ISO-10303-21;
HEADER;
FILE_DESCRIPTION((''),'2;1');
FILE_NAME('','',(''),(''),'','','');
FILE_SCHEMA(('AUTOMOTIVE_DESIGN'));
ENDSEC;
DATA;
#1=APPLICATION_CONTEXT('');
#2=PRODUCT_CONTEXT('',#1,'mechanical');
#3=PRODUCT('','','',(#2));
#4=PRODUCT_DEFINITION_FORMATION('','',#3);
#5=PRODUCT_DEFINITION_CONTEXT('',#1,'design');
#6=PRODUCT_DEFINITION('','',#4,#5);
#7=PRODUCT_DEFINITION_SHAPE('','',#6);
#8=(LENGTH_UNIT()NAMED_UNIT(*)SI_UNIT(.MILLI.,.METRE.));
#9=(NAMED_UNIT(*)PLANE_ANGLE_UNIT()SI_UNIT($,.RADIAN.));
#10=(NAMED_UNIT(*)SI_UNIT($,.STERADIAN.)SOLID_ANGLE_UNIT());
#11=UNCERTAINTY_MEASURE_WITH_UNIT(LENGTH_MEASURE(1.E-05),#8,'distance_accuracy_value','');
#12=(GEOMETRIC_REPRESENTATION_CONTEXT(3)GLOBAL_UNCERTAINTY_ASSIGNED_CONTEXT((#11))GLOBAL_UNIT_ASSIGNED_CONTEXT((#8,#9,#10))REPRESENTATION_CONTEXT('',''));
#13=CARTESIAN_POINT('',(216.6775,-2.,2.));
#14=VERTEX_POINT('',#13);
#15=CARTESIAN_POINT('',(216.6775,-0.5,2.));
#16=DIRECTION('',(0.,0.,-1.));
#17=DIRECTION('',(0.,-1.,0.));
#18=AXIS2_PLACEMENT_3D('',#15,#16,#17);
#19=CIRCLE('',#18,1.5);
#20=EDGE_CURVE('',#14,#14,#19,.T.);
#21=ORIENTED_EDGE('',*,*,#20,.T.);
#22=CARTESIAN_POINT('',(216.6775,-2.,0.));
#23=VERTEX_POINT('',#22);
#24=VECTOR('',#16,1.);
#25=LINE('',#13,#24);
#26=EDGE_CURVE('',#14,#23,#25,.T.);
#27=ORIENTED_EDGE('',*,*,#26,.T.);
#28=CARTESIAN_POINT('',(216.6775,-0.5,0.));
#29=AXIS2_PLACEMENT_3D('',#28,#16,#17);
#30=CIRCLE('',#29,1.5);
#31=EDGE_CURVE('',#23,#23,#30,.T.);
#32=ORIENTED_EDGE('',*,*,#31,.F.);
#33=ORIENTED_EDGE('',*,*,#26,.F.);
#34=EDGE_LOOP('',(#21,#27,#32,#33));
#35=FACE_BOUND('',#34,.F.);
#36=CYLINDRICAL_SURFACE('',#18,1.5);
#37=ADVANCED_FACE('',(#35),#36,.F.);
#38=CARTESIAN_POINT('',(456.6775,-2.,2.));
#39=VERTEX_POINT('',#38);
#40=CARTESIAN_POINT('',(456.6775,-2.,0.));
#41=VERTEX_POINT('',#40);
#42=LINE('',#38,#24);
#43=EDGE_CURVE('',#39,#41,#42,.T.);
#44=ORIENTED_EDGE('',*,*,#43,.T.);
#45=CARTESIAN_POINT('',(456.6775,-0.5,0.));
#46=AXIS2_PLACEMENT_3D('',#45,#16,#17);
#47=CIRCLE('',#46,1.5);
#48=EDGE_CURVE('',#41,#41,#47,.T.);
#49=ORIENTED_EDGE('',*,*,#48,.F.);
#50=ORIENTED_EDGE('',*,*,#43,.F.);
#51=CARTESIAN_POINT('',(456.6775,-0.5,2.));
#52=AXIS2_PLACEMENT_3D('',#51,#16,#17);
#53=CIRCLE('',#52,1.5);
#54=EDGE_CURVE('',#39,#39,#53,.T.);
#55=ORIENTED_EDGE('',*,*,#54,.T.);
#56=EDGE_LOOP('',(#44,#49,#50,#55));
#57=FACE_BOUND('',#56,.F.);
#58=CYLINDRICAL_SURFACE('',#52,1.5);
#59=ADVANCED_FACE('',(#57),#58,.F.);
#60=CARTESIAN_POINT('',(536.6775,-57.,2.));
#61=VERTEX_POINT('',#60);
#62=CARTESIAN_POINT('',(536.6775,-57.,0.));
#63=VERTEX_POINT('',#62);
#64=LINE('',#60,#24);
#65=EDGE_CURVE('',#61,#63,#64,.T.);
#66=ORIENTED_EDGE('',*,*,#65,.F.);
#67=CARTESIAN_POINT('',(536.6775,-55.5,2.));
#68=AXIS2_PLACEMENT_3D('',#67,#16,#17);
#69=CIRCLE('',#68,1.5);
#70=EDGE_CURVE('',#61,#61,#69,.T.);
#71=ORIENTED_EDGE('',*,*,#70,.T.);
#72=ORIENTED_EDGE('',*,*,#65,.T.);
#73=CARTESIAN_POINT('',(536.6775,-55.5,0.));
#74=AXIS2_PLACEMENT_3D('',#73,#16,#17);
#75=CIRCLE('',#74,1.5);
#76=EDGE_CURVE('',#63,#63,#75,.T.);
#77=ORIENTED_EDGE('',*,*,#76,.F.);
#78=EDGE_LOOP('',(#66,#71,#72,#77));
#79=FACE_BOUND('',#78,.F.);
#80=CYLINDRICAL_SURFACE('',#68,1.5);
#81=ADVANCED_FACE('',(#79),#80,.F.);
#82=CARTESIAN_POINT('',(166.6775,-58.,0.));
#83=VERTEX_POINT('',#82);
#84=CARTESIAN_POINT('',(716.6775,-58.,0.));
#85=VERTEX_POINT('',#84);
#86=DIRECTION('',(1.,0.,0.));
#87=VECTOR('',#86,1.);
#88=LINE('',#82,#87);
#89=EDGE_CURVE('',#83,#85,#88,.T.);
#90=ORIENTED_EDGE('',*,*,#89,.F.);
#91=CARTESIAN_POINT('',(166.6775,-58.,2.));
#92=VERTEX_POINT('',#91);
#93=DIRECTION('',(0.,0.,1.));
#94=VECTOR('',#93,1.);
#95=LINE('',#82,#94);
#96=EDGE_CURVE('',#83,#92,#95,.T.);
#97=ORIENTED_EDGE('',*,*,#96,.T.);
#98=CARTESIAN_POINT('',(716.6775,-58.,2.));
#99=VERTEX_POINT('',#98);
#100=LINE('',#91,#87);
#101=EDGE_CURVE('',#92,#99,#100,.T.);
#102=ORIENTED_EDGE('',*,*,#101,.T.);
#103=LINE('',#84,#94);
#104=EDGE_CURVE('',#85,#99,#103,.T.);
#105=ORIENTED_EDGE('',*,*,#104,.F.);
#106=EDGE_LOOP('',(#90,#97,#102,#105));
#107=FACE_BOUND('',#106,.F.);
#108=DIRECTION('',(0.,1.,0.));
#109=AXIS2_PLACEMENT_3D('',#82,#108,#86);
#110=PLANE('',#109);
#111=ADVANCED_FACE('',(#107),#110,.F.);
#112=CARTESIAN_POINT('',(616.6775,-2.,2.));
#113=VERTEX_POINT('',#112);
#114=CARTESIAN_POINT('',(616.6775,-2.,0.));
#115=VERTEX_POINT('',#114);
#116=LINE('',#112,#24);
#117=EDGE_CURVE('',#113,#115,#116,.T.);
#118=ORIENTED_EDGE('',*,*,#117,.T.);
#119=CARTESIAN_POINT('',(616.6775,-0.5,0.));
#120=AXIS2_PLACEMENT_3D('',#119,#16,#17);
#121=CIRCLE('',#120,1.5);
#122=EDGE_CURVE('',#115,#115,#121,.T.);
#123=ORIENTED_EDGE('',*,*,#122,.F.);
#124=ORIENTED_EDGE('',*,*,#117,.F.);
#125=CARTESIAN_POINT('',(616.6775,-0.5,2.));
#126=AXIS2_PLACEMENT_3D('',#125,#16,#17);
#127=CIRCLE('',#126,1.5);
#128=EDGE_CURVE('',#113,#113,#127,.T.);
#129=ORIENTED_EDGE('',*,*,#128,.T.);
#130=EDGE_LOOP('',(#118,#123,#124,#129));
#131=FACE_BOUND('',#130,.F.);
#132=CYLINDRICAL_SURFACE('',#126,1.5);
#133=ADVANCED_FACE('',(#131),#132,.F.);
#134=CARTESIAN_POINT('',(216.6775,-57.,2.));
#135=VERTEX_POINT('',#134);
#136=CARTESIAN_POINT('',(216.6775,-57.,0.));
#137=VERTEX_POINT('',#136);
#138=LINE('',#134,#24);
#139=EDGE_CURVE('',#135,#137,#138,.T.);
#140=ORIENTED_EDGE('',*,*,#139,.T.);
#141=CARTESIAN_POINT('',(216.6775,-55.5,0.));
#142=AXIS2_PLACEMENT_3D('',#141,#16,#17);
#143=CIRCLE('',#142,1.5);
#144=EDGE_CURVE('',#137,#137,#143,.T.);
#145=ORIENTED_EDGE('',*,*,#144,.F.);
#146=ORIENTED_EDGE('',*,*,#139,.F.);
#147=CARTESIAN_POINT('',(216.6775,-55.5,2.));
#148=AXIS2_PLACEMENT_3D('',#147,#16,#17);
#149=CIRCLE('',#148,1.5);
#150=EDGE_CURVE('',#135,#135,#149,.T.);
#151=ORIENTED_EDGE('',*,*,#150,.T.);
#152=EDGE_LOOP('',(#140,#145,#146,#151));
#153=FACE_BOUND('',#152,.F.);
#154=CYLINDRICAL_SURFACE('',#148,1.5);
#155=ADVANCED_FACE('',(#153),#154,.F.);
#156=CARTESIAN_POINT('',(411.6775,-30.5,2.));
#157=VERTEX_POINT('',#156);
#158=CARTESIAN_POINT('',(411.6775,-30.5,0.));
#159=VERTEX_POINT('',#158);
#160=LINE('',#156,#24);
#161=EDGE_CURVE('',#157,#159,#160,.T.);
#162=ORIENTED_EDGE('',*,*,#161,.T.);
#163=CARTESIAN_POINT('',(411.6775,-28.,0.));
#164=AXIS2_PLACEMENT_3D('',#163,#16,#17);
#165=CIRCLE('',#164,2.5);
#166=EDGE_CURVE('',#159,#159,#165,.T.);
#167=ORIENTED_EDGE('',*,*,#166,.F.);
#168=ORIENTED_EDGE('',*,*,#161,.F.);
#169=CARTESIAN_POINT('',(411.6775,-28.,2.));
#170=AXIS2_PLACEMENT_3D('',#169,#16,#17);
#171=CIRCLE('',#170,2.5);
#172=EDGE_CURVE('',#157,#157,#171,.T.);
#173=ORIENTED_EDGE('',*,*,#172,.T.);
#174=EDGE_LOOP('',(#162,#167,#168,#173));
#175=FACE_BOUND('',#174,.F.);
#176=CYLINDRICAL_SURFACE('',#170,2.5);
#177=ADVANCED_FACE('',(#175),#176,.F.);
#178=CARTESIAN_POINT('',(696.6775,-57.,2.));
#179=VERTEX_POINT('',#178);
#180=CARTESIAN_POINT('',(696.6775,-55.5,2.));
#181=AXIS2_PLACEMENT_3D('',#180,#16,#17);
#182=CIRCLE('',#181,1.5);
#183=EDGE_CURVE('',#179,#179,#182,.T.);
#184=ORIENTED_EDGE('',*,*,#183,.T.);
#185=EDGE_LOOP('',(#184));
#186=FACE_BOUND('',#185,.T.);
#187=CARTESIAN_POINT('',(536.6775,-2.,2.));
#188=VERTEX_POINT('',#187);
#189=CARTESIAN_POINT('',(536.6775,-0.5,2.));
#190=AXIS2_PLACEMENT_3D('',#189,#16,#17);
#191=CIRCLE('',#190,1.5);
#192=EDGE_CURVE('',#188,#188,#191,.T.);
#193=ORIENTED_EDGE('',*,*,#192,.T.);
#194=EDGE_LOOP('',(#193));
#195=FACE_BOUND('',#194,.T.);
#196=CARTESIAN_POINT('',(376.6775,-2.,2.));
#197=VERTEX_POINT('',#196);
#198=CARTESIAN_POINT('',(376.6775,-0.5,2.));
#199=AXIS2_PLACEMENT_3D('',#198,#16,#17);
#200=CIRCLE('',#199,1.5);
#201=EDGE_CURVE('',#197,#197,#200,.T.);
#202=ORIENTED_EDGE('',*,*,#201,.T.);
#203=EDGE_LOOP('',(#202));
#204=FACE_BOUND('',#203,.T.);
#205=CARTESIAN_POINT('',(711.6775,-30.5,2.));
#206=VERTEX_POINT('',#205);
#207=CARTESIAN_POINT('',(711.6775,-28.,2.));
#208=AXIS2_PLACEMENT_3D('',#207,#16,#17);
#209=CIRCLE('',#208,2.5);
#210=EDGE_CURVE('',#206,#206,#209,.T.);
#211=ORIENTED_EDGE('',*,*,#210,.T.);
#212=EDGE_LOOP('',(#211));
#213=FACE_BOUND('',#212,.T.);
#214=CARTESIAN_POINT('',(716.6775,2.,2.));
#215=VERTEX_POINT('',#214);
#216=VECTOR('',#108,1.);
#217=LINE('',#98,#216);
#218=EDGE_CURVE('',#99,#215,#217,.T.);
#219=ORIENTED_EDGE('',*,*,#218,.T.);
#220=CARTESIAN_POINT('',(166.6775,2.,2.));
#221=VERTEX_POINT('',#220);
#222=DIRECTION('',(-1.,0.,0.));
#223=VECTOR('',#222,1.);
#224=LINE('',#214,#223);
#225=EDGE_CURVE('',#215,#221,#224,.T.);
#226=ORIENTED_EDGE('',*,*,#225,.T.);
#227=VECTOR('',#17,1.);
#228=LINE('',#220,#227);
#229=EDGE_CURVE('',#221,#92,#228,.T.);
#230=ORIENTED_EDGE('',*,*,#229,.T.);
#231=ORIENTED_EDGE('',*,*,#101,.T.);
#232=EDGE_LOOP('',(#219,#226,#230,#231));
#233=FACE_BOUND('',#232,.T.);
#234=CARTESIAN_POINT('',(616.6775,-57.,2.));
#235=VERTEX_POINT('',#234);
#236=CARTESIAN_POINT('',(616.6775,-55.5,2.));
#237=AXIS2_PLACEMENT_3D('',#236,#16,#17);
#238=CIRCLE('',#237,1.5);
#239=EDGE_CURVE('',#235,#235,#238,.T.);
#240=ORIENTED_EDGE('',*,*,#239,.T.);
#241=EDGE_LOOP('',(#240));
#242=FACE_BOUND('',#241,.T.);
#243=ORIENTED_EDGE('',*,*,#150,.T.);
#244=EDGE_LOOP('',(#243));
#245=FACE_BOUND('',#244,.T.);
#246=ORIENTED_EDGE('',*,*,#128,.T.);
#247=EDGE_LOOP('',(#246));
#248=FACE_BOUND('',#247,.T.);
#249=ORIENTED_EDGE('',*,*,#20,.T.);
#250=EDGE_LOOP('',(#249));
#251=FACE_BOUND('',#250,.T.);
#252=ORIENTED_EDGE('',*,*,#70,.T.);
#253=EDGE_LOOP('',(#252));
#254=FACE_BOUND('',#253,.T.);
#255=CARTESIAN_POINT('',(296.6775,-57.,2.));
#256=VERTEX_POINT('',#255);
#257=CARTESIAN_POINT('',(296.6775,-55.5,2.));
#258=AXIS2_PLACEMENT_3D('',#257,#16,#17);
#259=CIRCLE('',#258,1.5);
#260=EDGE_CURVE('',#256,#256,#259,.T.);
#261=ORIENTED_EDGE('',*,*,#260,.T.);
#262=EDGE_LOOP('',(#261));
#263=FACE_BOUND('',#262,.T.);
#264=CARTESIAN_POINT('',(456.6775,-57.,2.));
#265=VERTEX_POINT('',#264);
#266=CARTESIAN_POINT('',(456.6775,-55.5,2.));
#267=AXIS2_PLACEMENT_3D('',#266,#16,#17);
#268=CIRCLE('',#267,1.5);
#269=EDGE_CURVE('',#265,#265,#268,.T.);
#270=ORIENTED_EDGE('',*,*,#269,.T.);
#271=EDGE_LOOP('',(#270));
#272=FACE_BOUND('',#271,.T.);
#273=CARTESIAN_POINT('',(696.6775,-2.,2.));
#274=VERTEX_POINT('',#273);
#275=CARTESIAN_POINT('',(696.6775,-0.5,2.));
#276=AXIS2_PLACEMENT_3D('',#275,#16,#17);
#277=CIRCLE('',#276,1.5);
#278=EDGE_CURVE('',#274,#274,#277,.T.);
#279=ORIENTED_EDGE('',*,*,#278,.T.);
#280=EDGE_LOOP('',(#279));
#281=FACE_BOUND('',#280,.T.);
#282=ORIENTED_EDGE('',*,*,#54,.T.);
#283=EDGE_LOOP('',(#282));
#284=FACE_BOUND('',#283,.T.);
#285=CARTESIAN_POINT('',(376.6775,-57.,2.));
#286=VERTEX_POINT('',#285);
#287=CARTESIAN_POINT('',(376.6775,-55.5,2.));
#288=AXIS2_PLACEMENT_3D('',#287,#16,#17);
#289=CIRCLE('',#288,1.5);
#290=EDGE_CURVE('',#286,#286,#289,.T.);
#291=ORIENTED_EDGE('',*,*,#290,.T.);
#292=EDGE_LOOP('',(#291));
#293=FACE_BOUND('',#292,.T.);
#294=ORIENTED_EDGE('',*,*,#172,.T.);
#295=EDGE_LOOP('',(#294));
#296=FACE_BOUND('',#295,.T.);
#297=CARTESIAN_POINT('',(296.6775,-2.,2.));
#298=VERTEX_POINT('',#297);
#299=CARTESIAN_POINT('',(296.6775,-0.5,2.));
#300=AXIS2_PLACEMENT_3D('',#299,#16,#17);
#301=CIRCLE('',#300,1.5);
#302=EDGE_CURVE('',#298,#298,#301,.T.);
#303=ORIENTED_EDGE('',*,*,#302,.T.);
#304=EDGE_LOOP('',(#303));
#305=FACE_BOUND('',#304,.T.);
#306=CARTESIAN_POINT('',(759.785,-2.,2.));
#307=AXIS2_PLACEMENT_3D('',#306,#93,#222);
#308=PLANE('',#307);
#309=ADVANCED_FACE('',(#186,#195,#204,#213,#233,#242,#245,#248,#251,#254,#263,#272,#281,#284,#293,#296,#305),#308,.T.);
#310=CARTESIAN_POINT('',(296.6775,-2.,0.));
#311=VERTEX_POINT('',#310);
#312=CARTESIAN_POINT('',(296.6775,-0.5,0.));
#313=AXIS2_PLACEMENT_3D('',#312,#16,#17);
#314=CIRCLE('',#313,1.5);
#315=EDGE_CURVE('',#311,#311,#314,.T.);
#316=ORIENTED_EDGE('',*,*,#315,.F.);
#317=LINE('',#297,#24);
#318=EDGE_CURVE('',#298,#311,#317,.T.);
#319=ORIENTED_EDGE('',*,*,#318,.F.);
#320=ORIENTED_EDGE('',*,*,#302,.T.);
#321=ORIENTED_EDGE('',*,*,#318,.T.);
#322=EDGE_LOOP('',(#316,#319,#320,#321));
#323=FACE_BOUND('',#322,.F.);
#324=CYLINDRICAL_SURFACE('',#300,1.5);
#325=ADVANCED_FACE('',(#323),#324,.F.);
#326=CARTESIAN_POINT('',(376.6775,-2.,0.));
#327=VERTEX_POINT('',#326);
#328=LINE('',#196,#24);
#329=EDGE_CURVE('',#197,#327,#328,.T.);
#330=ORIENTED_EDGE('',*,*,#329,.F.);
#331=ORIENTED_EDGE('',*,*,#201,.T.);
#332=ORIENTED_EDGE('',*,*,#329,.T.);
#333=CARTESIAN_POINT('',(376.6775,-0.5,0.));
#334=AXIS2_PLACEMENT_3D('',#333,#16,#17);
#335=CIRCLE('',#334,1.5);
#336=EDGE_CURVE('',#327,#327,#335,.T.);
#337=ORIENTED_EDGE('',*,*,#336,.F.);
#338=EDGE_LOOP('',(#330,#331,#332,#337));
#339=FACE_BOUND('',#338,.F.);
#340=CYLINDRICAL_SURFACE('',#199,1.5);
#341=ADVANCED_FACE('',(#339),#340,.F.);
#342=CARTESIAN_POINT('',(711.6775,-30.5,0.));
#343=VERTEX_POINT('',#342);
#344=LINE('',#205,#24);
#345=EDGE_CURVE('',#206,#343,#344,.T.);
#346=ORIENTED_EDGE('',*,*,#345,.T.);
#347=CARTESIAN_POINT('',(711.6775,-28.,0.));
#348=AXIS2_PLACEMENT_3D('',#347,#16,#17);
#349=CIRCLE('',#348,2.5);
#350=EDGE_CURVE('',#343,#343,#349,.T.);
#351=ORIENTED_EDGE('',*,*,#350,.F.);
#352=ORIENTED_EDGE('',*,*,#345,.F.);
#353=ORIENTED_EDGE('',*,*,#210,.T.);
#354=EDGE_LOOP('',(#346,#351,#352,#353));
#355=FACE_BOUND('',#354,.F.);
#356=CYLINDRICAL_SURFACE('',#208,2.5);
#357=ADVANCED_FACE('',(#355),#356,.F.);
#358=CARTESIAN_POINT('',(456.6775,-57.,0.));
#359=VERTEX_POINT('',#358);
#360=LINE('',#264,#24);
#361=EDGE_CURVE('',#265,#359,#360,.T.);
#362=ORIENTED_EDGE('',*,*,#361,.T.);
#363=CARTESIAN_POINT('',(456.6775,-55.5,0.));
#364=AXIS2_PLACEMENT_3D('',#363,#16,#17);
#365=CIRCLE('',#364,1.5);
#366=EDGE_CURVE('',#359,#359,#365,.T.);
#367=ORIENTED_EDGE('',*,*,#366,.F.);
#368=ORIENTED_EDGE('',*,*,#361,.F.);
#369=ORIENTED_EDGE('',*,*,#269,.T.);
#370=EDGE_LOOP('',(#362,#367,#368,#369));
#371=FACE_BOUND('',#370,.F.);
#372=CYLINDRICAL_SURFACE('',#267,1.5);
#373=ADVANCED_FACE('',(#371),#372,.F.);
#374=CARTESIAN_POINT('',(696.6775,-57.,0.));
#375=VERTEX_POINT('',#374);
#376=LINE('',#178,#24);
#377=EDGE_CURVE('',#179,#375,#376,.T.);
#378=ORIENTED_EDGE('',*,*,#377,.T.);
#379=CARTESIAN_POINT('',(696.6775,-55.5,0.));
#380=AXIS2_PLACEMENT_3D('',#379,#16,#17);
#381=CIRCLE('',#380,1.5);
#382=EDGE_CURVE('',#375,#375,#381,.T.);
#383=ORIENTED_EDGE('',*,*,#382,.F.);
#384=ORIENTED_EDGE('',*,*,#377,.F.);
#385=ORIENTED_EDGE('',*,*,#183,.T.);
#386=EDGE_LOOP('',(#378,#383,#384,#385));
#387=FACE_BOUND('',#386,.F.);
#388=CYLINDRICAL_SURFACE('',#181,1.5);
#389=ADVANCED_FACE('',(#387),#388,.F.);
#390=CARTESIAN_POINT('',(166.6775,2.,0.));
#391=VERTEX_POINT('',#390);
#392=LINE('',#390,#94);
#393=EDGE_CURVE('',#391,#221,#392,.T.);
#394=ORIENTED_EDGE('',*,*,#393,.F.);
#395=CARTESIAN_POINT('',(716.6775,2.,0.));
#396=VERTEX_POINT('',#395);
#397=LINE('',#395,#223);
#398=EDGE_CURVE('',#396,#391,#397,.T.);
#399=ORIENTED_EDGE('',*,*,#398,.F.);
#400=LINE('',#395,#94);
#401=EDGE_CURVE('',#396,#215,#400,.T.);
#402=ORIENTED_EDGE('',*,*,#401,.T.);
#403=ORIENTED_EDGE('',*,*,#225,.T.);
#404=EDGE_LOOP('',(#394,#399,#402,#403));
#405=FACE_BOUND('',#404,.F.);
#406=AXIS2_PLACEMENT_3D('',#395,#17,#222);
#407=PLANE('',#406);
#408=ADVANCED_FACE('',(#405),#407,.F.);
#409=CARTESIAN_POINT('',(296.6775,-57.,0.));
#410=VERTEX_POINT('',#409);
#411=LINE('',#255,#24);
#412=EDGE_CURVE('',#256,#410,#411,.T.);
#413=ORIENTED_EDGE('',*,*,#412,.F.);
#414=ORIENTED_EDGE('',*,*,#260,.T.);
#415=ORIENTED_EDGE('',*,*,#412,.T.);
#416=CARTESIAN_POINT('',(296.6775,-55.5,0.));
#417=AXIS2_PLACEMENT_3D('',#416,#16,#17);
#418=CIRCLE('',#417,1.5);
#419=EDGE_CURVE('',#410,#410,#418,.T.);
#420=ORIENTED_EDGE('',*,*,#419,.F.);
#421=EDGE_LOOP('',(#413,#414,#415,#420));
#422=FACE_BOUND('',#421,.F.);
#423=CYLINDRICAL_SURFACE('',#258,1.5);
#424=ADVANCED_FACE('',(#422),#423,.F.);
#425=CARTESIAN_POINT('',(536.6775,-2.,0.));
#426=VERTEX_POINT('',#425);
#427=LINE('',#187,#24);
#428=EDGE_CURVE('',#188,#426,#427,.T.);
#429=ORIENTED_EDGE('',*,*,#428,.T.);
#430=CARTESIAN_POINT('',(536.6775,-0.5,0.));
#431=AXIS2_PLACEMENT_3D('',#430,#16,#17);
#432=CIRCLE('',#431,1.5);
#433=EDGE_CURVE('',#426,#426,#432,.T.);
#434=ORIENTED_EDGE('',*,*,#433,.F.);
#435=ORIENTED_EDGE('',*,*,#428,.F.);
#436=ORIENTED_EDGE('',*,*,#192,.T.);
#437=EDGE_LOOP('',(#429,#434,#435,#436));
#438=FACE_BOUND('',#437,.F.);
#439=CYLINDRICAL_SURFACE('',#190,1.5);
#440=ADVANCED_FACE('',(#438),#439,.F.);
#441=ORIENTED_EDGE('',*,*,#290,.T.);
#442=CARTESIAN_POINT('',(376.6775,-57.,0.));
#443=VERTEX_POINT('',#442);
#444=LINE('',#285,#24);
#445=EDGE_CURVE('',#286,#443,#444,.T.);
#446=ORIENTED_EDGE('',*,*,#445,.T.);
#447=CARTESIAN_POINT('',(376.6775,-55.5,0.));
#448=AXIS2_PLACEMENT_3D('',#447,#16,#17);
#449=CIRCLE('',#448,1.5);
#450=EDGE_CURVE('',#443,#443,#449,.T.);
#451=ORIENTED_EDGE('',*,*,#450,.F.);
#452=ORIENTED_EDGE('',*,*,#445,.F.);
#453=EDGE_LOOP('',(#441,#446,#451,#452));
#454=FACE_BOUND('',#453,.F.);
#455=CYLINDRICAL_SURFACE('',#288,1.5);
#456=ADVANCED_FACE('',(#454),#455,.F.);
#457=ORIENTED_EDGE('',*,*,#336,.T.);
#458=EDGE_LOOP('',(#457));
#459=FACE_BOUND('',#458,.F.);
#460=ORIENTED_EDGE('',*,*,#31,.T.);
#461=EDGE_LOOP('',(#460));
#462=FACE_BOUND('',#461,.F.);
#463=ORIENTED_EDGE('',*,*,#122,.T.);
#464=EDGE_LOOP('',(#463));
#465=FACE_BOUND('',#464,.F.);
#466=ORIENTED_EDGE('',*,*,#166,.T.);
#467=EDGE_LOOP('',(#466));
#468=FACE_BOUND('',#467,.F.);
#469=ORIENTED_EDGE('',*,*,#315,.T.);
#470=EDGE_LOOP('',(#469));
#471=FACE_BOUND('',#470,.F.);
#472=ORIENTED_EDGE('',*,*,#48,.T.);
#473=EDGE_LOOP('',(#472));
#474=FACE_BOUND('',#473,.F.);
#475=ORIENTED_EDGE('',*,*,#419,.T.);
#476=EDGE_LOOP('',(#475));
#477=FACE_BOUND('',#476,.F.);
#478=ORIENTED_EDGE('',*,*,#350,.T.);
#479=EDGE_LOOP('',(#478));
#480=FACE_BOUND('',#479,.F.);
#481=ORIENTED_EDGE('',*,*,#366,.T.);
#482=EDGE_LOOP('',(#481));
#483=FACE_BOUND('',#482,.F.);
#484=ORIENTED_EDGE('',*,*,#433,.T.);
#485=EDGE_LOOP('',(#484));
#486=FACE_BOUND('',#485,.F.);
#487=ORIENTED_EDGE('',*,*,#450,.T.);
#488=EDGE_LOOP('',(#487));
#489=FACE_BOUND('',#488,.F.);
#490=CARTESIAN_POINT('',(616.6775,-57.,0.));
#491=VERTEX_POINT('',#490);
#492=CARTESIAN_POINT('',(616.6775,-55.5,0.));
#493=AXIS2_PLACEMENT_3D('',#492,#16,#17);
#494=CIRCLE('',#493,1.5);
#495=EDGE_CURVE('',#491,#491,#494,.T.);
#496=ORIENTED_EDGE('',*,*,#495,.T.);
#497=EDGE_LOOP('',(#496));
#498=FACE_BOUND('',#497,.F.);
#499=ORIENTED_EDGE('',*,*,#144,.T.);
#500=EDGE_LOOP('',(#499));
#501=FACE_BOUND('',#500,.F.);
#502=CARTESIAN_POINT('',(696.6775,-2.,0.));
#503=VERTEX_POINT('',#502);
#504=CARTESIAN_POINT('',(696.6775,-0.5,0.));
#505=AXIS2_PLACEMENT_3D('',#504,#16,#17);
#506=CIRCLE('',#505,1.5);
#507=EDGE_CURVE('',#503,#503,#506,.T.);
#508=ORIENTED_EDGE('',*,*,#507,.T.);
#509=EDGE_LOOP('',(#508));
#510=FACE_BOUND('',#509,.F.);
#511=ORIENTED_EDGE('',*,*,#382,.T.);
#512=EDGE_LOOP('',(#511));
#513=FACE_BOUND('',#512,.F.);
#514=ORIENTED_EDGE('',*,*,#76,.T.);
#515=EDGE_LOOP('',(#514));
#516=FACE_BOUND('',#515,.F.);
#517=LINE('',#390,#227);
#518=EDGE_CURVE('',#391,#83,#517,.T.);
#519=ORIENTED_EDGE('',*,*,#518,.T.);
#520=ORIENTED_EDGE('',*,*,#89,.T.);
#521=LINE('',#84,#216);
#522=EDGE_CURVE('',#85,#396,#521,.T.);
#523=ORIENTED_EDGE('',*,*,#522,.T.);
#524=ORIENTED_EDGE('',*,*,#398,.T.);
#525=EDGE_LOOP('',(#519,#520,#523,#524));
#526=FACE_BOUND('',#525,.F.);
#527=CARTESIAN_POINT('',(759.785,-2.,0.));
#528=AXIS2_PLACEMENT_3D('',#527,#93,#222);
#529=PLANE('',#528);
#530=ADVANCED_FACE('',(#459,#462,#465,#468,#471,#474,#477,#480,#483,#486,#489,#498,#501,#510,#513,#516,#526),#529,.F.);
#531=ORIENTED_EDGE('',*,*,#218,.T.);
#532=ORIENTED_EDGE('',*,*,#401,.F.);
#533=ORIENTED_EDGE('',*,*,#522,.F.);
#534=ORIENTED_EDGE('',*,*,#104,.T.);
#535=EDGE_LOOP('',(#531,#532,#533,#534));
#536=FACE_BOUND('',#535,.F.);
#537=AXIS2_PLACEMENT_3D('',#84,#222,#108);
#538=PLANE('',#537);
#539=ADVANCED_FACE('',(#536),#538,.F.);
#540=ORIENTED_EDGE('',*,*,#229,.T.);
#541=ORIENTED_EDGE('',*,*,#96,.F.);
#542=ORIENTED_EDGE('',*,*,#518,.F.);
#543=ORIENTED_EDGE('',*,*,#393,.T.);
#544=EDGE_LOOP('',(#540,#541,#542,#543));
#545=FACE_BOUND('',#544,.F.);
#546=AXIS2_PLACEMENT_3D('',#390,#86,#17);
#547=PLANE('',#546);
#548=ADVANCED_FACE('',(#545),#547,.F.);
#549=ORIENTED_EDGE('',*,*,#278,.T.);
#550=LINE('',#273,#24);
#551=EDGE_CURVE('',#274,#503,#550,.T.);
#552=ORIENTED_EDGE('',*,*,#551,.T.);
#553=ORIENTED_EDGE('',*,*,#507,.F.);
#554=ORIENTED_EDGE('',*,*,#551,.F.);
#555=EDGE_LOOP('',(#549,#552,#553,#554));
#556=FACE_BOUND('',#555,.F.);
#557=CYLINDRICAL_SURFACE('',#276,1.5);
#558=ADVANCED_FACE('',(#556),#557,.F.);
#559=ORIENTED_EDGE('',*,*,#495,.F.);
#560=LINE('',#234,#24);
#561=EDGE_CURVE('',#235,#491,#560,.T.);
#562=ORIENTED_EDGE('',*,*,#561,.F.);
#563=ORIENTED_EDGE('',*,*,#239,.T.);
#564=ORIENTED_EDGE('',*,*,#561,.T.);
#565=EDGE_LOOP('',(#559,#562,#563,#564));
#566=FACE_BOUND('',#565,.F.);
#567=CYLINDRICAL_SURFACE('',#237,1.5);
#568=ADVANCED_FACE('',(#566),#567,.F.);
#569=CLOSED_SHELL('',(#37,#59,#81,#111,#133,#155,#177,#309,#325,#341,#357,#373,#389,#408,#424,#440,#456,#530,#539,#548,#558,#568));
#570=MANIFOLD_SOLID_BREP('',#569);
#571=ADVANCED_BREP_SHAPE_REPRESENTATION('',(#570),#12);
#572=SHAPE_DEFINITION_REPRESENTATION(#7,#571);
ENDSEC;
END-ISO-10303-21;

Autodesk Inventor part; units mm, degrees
ref_plane "YZ Plane" through (0, 0, 0) normal (1, 0, 0) x (0, 1, 0)
ref_plane "XZ Plane" through (0, 0, 0) normal (0, 1, 0) x (-1, 0, 0)
ref_plane "XY Plane" through (0, 0, 0) normal (0, 0, 1) x (1, 0, 0)
ref_plane "Work Plane3" through (759.785, -2, 0) normal (0, 0, 1) x (-1, 0, 0)
sketch "Sketch2" plane through (759.785, -2, 0) normal (0, 0, 1) x (-1, 0, 0)
  line L0 (43.1075, -4) -> (593.1075, -4)
  line L1 (593.1075, -4) -> (593.1075, 56)
  line L2 (593.1075, 56) -> (43.1075, 56)
  line L3 (43.1075, 56) -> (43.1075, -4)
  point P0 (759.785, -2)
  dimension "d0" = 550
  dimension "d1" = 60
extrude "Extrusion1" add sketch "Sketch2" along normal blind 2
sketch "Sketch4" plane through (759.785, -2, 2) normal (0, 0, 1) x (1, 0, 0)
  line L0 (-43.1075, 4) -> (-593.1075, 4) projected
  line L1 (-43.1075, -56) -> (-43.1075, 4) projected
  point P0 (-759.785, 2)
  point P1 (-48.1075, -26)
  point P2 (-348.1075, -26)
  point P3 (-648.1075, -26)
  dimension "d14" = 30
  dimension "d15" = 5
  dimension "d18" = 300
hole "Hole2" at (111.6775, -28, 2) at (411.6775, -28, 2) at (711.6775, -28, 2) direction (0, 0, -1) diameter 5 end through all
chamfer "Chamfer1" [suppressed]
sketch "Sketch5" plane through (759.785, -2, 2) normal (0, 0, 1) x (1, 0, 0)
  line L0 (-43.1075, 4) -> (-593.1075, 4) projected
  line L1 (-43.1075, -56) -> (-43.1075, 4) projected
  point P0 (-63.1075, 1.5)
  point P1 (-143.1075, 1.5)
  point P2 (-223.1075, 1.5)
  point P3 (-303.1075, 1.5)
  point P4 (-383.1075, 1.5)
  point P5 (-463.1075, 1.5)
  point P6 (-543.1075, 1.5)
  point P7 (-63.1075, -53.5)
  point P8 (-143.1075, -53.5)
  point P9 (-223.1075, -53.5)
  point P10 (-303.1075, -53.5)
  point P11 (-383.1075, -53.5)
  point P12 (-463.1075, -53.5)
  point P13 (-543.1075, -53.5)
  dimension "d30" = 2.5
  dimension "d31" = 20
  dimension "d34" = 80
  dimension "d37" = 55
hole "Hole3" at (536.6775, -55.5, 2) at (536.6775, -0.5, 2) at (456.6775, -0.5, 2) at (376.6775, -55.5, 2) at (376.6775, -0.5, 2) at (296.6775, -55.5, 2) at (296.6775, -0.5, 2) at (216.6775, -55.5, 2) at (216.6775, -0.5, 2) at (456.6775, -55.5, 2) at (696.6775, -55.5, 2) at (696.6775, -0.5, 2) at (616.6775, -55.5, 2) at (616.6775, -0.5, 2) direction (0, 0, -1) diameter 3 end through all
sketch "Sketch6" plane through (759.785, -2, 2) normal (0, 0, 1) x (1, 0, 0)
  line L0 (-415.5028, -23.6333) -> (-415.0497, -23.6333)
  line L1 (-415.0497, -23.6333) -> (-415.0497, -27.7161)
  line L2 (-415.0497, -27.7161) -> (-409.6296, -27.7161)
  line L3 (-409.6296, -27.7161) -> (-409.6296, -23.6333)
  line L4 (-409.6296, -23.6333) -> (-409.1821, -23.6333)
  line L5 (-409.1821, -23.6333) -> (-409.1821, -31.8699)
  line L6 (-409.1821, -31.8699) -> (-409.6296, -31.8699)
  line L7 (-409.6296, -31.8699) -> (-409.6296, -28.1582)
  line L8 (-409.6296, -28.1582) -> (-415.0497, -28.1582)
  line L9 (-415.0497, -28.1582) -> (-415.0497, -31.8699)
  line L10 (-415.0497, -31.8699) -> (-415.5028, -31.8699)
  line L11 (-415.5028, -31.8699) -> (-415.5028, -23.6333)
  line L12 (-423.5865, -23.5569) -> (-418.1391, -23.5569)
  line L13 (-418.1391, -23.5569) -> (-418.1391, -31.9518)
  line L14 (-418.1391, -31.9518) -> (-423.5865, -31.9518)
  line L15 (-423.5865, -31.9518) -> (-423.5865, -31.5151)
  line L16 (-423.5865, -31.5151) -> (-418.5867, -31.5151)
  line L17 (-418.5867, -31.5151) -> (-418.5867, -28.1582)
  line L18 (-418.5867, -28.1582) -> (-421.6324, -28.1582)
  line L19 (-421.6324, -28.1582) -> (-421.6324, -27.7161)
  line L20 (-421.6324, -27.7161) -> (-418.5867, -27.7161)
  line L21 (-418.5867, -27.7161) -> (-418.5867, -23.9827)
  line L22 (-418.5867, -23.9827) -> (-423.5865, -23.9827)
  line L23 (-423.5865, -23.9827) -> (-423.5865, -23.5569)
  line L24 (-431.5121, -23.7589) -> (-431.1136, -23.5624)
  line L25 (-431.1136, -23.5624) -> (-428.4991, -27.3504)
  line L26 (-428.4991, -27.3504) -> (-425.8791, -23.5569)
  line L27 (-425.8791, -23.5569) -> (-425.4861, -23.7589)
  line L28 (-425.4861, -23.7589) -> (-428.2207, -27.7434)
  line L29 (-428.2207, -27.7434) -> (-425.4916, -31.728)
  line L30 (-425.4916, -31.728) -> (-425.8791, -31.9572)
  line L31 (-425.8791, -31.9572) -> (-428.4991, -28.1474)
  line L32 (-428.4991, -28.1474) -> (-431.1136, -31.9572)
  line L33 (-431.1136, -31.9572) -> (-431.5121, -31.7335)
  line L34 (-431.5121, -31.7335) -> (-428.772, -27.7434)
  line L35 (-428.772, -27.7434) -> (-431.5121, -23.7589)
  line L36 (-440.0543, -23.7206) -> (-439.6504, -23.5733)
  line L37 (-439.6504, -23.5733) -> (-438.6023, -26.2041)
  line L38 (-438.6023, -26.2041) -> (-434.7434, -26.2041)
  line L39 (-434.7434, -26.2041) -> (-433.6953, -23.5733)
  line L40 (-433.6953, -23.5733) -> (-433.2914, -23.7206)
  line L41 (-433.2914, -23.7206) -> (-436.5228, -31.9518)
  line L42 (-436.5228, -31.9518) -> (-436.8284, -31.9518)
  line L43 (-436.8284, -31.9518) -> (-440.0543, -23.7206)
  line L44 (-438.4332, -26.6408) -> (-436.6756, -31.1221)
  line L45 (-436.6756, -31.1221) -> (-434.9125, -26.6408)
  line L46 (-434.9125, -26.6408) -> (-438.4332, -26.6408)
  line L47 (-448.2091, -23.6333) -> (-447.756, -23.6333)
  line L48 (-447.756, -23.6333) -> (-447.756, -27.7161)
  line L49 (-447.756, -27.7161) -> (-442.3359, -27.7161)
  line L50 (-442.3359, -27.7161) -> (-442.3359, -23.6333)
  line L51 (-442.3359, -23.6333) -> (-441.8884, -23.6333)
  line L52 (-441.8884, -23.6333) -> (-441.8884, -31.8699)
  line L53 (-441.8884, -31.8699) -> (-442.3359, -31.8699)
  line L54 (-442.3359, -31.8699) -> (-442.3359, -28.1582)
  line L55 (-442.3359, -28.1582) -> (-447.756, -28.1582)
  line L56 (-447.756, -28.1582) -> (-447.756, -31.8699)
  line L57 (-447.756, -31.8699) -> (-448.2091, -31.8699)
  line L58 (-448.2091, -31.8699) -> (-448.2091, -23.6333)
  line L59 (-457.5864, -31.6952) -> (-454.426, -27.8581)
  line L60 (-454.426, -27.8581) -> (-454.426, -23.6333)
  line L61 (-454.426, -23.6333) -> (-453.9729, -23.6333)
  line L62 (-453.9729, -23.6333) -> (-453.9729, -27.8581)
  line L63 (-453.9729, -27.8581) -> (-450.8181, -31.6952)
  line L64 (-450.8181, -31.6952) -> (-451.1566, -31.9791)
  line L65 (-451.1566, -31.9791) -> (-454.2023, -28.2893)
  line L66 (-454.2023, -28.2893) -> (-457.248, -31.9791)
  line L67 (-457.248, -31.9791) -> (-457.5864, -31.6952)
  line L68 (-464.5622, -26.7663) -> (-464.1473, -25.582)
  line L69 (-464.1473, -25.582) -> (-463.7489, -24.7686)
  line L70 (-463.7489, -24.7686) -> (-462.8865, -23.9499)
  line L71 (-462.8865, -23.9499) -> (-461.631, -23.5569)
  line L72 (-461.631, -23.5569) -> (-458.6344, -23.5569)
  line L73 (-458.6344, -23.5569) -> (-458.6344, -31.9518)
  line L74 (-458.6344, -31.9518) -> (-461.631, -31.9518)
  line L75 (-461.631, -31.9518) -> (-462.8865, -31.5425)
  line L76 (-462.8865, -31.5425) -> (-463.7489, -30.7291)
  line L77 (-463.7489, -30.7291) -> (-464.1473, -29.9158)
  line L78 (-464.1473, -29.9158) -> (-464.5622, -28.726)
  line L79 (-464.5622, -28.726) -> (-464.5622, -26.7663)
  line L80 (-464.1091, -26.832) -> (-464.1091, -28.6659)
  line L81 (-464.1091, -28.6659) -> (-463.7435, -29.7521)
  line L82 (-463.7435, -29.7521) -> (-463.3668, -30.4617)
  line L83 (-463.3668, -30.4617) -> (-462.6517, -31.1658)
  line L84 (-462.6517, -31.1658) -> (-461.5655, -31.5151)
  line L85 (-461.5655, -31.5151) -> (-459.082, -31.5151)
  line L86 (-459.082, -31.5151) -> (-459.082, -23.9827)
  line L87 (-459.082, -23.9827) -> (-461.5655, -23.9827)
  line L88 (-461.5655, -23.9827) -> (-462.6517, -24.3321)
  line L89 (-462.6517, -24.3321) -> (-463.3668, -25.0361)
  line L90 (-463.3668, -25.0361) -> (-463.7435, -25.7456)
  line L91 (-463.7435, -25.7456) -> (-464.1091, -26.832)
  line L92 (-472.7388, -29.4028) -> (-472.3075, -28.5622)
  line L93 (-472.3075, -28.5622) -> (-471.8436, -28.1256)
  line L94 (-471.8436, -28.1256) -> (-470.5882, -27.7161)
  line L95 (-470.5882, -27.7161) -> (-470.1952, -27.7161)
  line L96 (-470.1952, -27.7161) -> (-472.7878, -23.7589)
  line L97 (-472.7878, -23.7589) -> (-472.384, -23.5569)
  line L98 (-472.384, -23.5569) -> (-469.6548, -27.7161)
  line L99 (-469.6548, -27.7161) -> (-467.2586, -27.7161)
  line L100 (-467.2586, -27.7161) -> (-467.2586, -23.6333)
  line L101 (-467.2586, -23.6333) -> (-466.811, -23.6333)
  line L102 (-466.811, -23.6333) -> (-466.811, -31.9518)
  line L103 (-466.811, -31.9518) -> (-470.5882, -31.9518)
  line L104 (-470.5882, -31.9518) -> (-471.8436, -31.5425)
  line L105 (-471.8436, -31.5425) -> (-472.3075, -31.1112)
  line L106 (-472.3075, -31.1112) -> (-472.7388, -30.2652)
  line L107 (-472.7388, -30.2652) -> (-472.7388, -29.4028)
  line L108 (-472.2857, -29.512) -> (-472.2857, -30.1615)
  line L109 (-472.2857, -30.1615) -> (-471.9309, -30.8437)
  line L110 (-471.9309, -30.8437) -> (-471.6089, -31.1658)
  line L111 (-471.6089, -31.1658) -> (-470.5228, -31.5151)
  line L112 (-470.5228, -31.5151) -> (-467.2586, -31.5151)
  line L113 (-467.2586, -31.5151) -> (-467.2586, -28.1582)
  line L114 (-467.2586, -28.1582) -> (-470.5228, -28.1582)
  line L115 (-470.5228, -28.1582) -> (-471.6089, -28.5076)
  line L116 (-471.6089, -28.5076) -> (-471.9309, -28.8297)
  line L117 (-471.9309, -28.8297) -> (-472.2857, -29.512)
  line L118 (-481.3082, -26.7663) -> (-480.8934, -25.582)
  line L119 (-480.8934, -25.582) -> (-480.4895, -24.7686)
  line L120 (-480.4895, -24.7686) -> (-479.6544, -23.9609)
  line L121 (-479.6544, -23.9609) -> (-478.7865, -23.5569)
  line L122 (-478.7865, -23.5569) -> (-477.1107, -23.5569)
  line L123 (-477.1107, -23.5569) -> (-476.2484, -23.9609)
  line L124 (-476.2484, -23.9609) -> (-475.4079, -24.7686)
  line L125 (-475.4079, -24.7686) -> (-475.0093, -25.582)
  line L126 (-475.0093, -25.582) -> (-474.5946, -26.7663)
  line L127 (-474.5946, -26.7663) -> (-474.5946, -28.726)
  line L128 (-474.5946, -28.726) -> (-475.0093, -29.9158)
  line L129 (-475.0093, -29.9158) -> (-475.4079, -30.7291)
  line L130 (-475.4079, -30.7291) -> (-476.2484, -31.537)
  line L131 (-476.2484, -31.537) -> (-477.1107, -31.9518)
  line L132 (-477.1107, -31.9518) -> (-478.7865, -31.9518)
  line L133 (-478.7865, -31.9518) -> (-479.6544, -31.537)
  line L134 (-479.6544, -31.537) -> (-480.4895, -30.7291)
  line L135 (-480.4895, -30.7291) -> (-480.8934, -29.9158)
  line L136 (-480.8934, -29.9158) -> (-481.3082, -28.726)
  line L137 (-481.3082, -28.726) -> (-481.3082, -26.7663)
  line L138 (-480.8552, -26.832) -> (-480.8552, -28.6659)
  line L139 (-480.8552, -28.6659) -> (-480.484, -29.7521)
  line L140 (-480.484, -29.7521) -> (-480.1129, -30.4617)
  line L141 (-480.1129, -30.4617) -> (-479.376, -31.1713)
  line L142 (-479.376, -31.1713) -> (-478.6774, -31.5151)
  line L143 (-478.6774, -31.5151) -> (-477.2254, -31.5151)
  line L144 (-477.2254, -31.5151) -> (-476.5213, -31.1713)
  line L145 (-476.5213, -31.1713) -> (-475.7899, -30.4617)
  line L146 (-475.7899, -30.4617) -> (-475.4133, -29.7521)
  line L147 (-475.4133, -29.7521) -> (-475.0475, -28.6659)
  line L148 (-475.0475, -28.6659) -> (-475.0475, -26.832)
  line L149 (-475.0475, -26.832) -> (-475.4133, -25.7456)
  line L150 (-475.4133, -25.7456) -> (-475.7899, -25.0361)
  line L151 (-475.7899, -25.0361) -> (-476.5213, -24.3265)
  line L152 (-476.5213, -24.3265) -> (-477.2254, -23.9827)
  line L153 (-477.2254, -23.9827) -> (-478.6774, -23.9827)
  line L154 (-478.6774, -23.9827) -> (-479.376, -24.3265)
  line L155 (-479.376, -24.3265) -> (-480.1129, -25.0361)
  line L156 (-480.1129, -25.0361) -> (-480.484, -25.7456)
  line L157 (-480.484, -25.7456) -> (-480.8552, -26.832)
  line L158 (-489.3976, -31.5151) -> (-486.7449, -31.5151)
  line L159 (-486.7449, -31.5151) -> (-486.7449, -23.6333)
  line L160 (-486.7449, -23.6333) -> (-486.2918, -23.6333)
  line L161 (-486.2918, -23.6333) -> (-486.2918, -31.5151)
  line L162 (-486.2918, -31.5151) -> (-483.6445, -31.5151)
  line L163 (-483.6445, -31.5151) -> (-483.6445, -31.9518)
  line L164 (-483.6445, -31.9518) -> (-489.3976, -31.9518)
  line L165 (-489.3976, -31.9518) -> (-489.3976, -31.5151)
  line L166 (-496.8809, -23.6333) -> (-496.4278, -23.6333)
  line L167 (-496.4278, -23.6333) -> (-496.4278, -27.7161)
  line L168 (-496.4278, -27.7161) -> (-491.0077, -27.7161)
  line L169 (-491.0077, -27.7161) -> (-491.0077, -23.6333)
  line L170 (-491.0077, -23.6333) -> (-490.5601, -23.6333)
  line L171 (-490.5601, -23.6333) -> (-490.5601, -31.8699)
  line L172 (-490.5601, -31.8699) -> (-491.0077, -31.8699)
  line L173 (-491.0077, -31.8699) -> (-491.0077, -28.1582)
  line L174 (-491.0077, -28.1582) -> (-496.4278, -28.1582)
  line L175 (-496.4278, -28.1582) -> (-496.4278, -31.8699)
  line L176 (-496.4278, -31.8699) -> (-496.8809, -31.8699)
  line L177 (-496.8809, -31.8699) -> (-496.8809, -23.6333)
  line L178 (-506.2582, -31.6952) -> (-503.0978, -27.8581)
  line L179 (-503.0978, -27.8581) -> (-503.0978, -23.6333)
  line L180 (-503.0978, -23.6333) -> (-502.6449, -23.6333)
  line L181 (-502.6449, -23.6333) -> (-502.6449, -27.8581)
  line L182 (-502.6449, -27.8581) -> (-499.4899, -31.6952)
  line L183 (-499.4899, -31.6952) -> (-499.8283, -31.9791)
  line L184 (-499.8283, -31.9791) -> (-502.8741, -28.2893)
  line L185 (-502.8741, -28.2893) -> (-505.9198, -31.9791)
  line L186 (-505.9198, -31.9791) -> (-506.2582, -31.6952)
  line L187 (-514.0147, -23.6333) -> (-513.567, -23.6333)
  line L188 (-513.567, -23.6333) -> (-513.567, -30.549)
  line L189 (-513.567, -30.549) -> (-510.8489, -23.6333)
  line L190 (-510.8489, -23.6333) -> (-510.4777, -23.6333)
  line L191 (-510.4777, -23.6333) -> (-507.754, -30.549)
  line L192 (-507.754, -30.549) -> (-507.754, -23.6333)
  line L193 (-507.754, -23.6333) -> (-507.3063, -23.6333)
  line L194 (-507.3063, -23.6333) -> (-507.3063, -31.9518)
  line L195 (-507.3063, -31.9518) -> (-507.6831, -31.9518)
  line L196 (-507.6831, -31.9518) -> (-510.6633, -24.3701)
  line L197 (-510.6633, -24.3701) -> (-513.6381, -31.9518)
  line L198 (-513.6381, -31.9518) -> (-514.0147, -31.9518)
  line L199 (-514.0147, -31.9518) -> (-514.0147, -23.6333)
  line L200 (-522.9772, -26.7663) -> (-522.5624, -25.582)
  line L201 (-522.5624, -25.582) -> (-522.1585, -24.7686)
  line L202 (-522.1585, -24.7686) -> (-521.3234, -23.9609)
  line L203 (-521.3234, -23.9609) -> (-520.4555, -23.5569)
  line L204 (-520.4555, -23.5569) -> (-518.7797, -23.5569)
  line L205 (-518.7797, -23.5569) -> (-517.9173, -23.9609)
  line L206 (-517.9173, -23.9609) -> (-517.0768, -24.7686)
  line L207 (-517.0768, -24.7686) -> (-516.6782, -25.582)
  line L208 (-516.6782, -25.582) -> (-516.2635, -26.7663)
  line L209 (-516.2635, -26.7663) -> (-516.2635, -28.726)
  line L210 (-516.2635, -28.726) -> (-516.6782, -29.9158)
  line L211 (-516.6782, -29.9158) -> (-517.0768, -30.7291)
  line L212 (-517.0768, -30.7291) -> (-517.9173, -31.537)
  line L213 (-517.9173, -31.537) -> (-518.7797, -31.9518)
  line L214 (-518.7797, -31.9518) -> (-520.4555, -31.9518)
  line L215 (-520.4555, -31.9518) -> (-521.3234, -31.537)
  line L216 (-521.3234, -31.537) -> (-522.1585, -30.7291)
  line L217 (-522.1585, -30.7291) -> (-522.5624, -29.9158)
  line L218 (-522.5624, -29.9158) -> (-522.9772, -28.726)
  line L219 (-522.9772, -28.726) -> (-522.9772, -26.7663)
  line L220 (-522.5241, -26.832) -> (-522.5241, -28.6659)
  line L221 (-522.5241, -28.6659) -> (-522.1529, -29.7521)
  line L222 (-522.1529, -29.7521) -> (-521.7819, -30.4617)
  line L223 (-521.7819, -30.4617) -> (-521.0449, -31.1713)
  line L224 (-521.0449, -31.1713) -> (-520.3463, -31.5151)
  line L225 (-520.3463, -31.5151) -> (-518.8944, -31.5151)
  line L226 (-518.8944, -31.5151) -> (-518.1902, -31.1713)
  line L227 (-518.1902, -31.1713) -> (-517.4588, -30.4617)
  line L228 (-517.4588, -30.4617) -> (-517.0822, -29.7521)
  line L229 (-517.0822, -29.7521) -> (-516.7165, -28.6659)
  line L230 (-516.7165, -28.6659) -> (-516.7165, -26.832)
  line L231 (-516.7165, -26.832) -> (-517.0822, -25.7456)
  line L232 (-517.0822, -25.7456) -> (-517.4588, -25.0361)
  line L233 (-517.4588, -25.0361) -> (-518.1902, -24.3265)
  line L234 (-518.1902, -24.3265) -> (-518.8944, -23.9827)
  line L235 (-518.8944, -23.9827) -> (-520.3463, -23.9827)
  line L236 (-520.3463, -23.9827) -> (-521.0449, -24.3265)
  line L237 (-521.0449, -24.3265) -> (-521.7819, -25.0361)
  line L238 (-521.7819, -25.0361) -> (-522.1529, -25.7456)
  line L239 (-522.1529, -25.7456) -> (-522.5241, -26.832)
  line L240 (-529.8929, -23.5569) -> (-525.2259, -23.5569)
  line L241 (-525.2259, -23.5569) -> (-525.2259, -31.8699)
  line L242 (-525.2259, -31.8699) -> (-525.6735, -31.8699)
  line L243 (-525.6735, -31.8699) -> (-525.6735, -23.9827)
  line L244 (-525.6735, -23.9827) -> (-529.8929, -23.9827)
  line L245 (-529.8929, -23.9827) -> (-529.8929, -23.5569)
  line L246 (-533.4625, -30.8056) -> (-533.337, -30.4235)
  line L247 (-533.337, -30.4235) -> (-533.0205, -30.1232)
  line L248 (-533.0205, -30.1232) -> (-532.6329, -29.9977)
  line L249 (-532.6329, -29.9977) -> (-532.2781, -29.9977)
  line L250 (-532.2781, -29.9977) -> (-531.8906, -30.1232)
  line L251 (-531.8906, -30.1232) -> (-531.5739, -30.4235)
  line L252 (-531.5739, -30.4235) -> (-531.4484, -30.8056)
  line L253 (-531.4484, -30.8056) -> (-531.4484, -31.1494)
  line L254 (-531.4484, -31.1494) -> (-531.5739, -31.5206)
  line L255 (-531.5739, -31.5206) -> (-531.8851, -31.8317)
  line L256 (-531.8851, -31.8317) -> (-532.2781, -31.9518)
  line L257 (-532.2781, -31.9518) -> (-532.6329, -31.9518)
  line L258 (-532.6329, -31.9518) -> (-533.0259, -31.8317)
  line L259 (-533.0259, -31.8317) -> (-533.337, -31.5206)
  line L260 (-533.337, -31.5206) -> (-533.4625, -31.1494)
  line L261 (-533.4625, -31.1494) -> (-533.4625, -30.8056)
  line L262 (-533.0095, -30.8656) -> (-533.0095, -31.084)
  line L263 (-533.0095, -31.084) -> (-532.9386, -31.2804)
  line L264 (-532.9386, -31.2804) -> (-532.7694, -31.4442)
  line L265 (-532.7694, -31.4442) -> (-532.5674, -31.5151)
  line L266 (-532.5674, -31.5151) -> (-532.3436, -31.5151)
  line L267 (-532.3436, -31.5151) -> (-532.1417, -31.4442)
  line L268 (-532.1417, -31.4442) -> (-531.9725, -31.2804)
  line L269 (-531.9725, -31.2804) -> (-531.896, -31.084)
  line L270 (-531.896, -31.084) -> (-531.896, -30.871)
  line L271 (-531.896, -30.871) -> (-531.9725, -30.6691)
  line L272 (-531.9725, -30.6691) -> (-532.1417, -30.5054)
  line L273 (-532.1417, -30.5054) -> (-532.3436, -30.4344)
  line L274 (-532.3436, -30.4344) -> (-532.5674, -30.4344)
  line L275 (-532.5674, -30.4344) -> (-532.7694, -30.5054)
  line L276 (-532.7694, -30.5054) -> (-532.9386, -30.6691)
  line L277 (-532.9386, -30.6691) -> (-533.0095, -30.8656)
  line L278 (-403.6046, -22.2059) -> (-394.3046, -16.8672)
  line L279 (-394.3046, -16.8672) -> (-385.0046, -22.2059)
  line L280 (-385.0046, -22.2059) -> (-385.0046, -32.8835)
  line L281 (-385.0046, -32.8835) -> (-394.3046, -38.2223)
  line L282 (-394.3046, -38.2223) -> (-403.6046, -32.8835)
  line L283 (-403.6046, -32.8835) -> (-403.6046, -22.2059)
  line L284 (-413.0822, -38.2183) -> (-403.8372, -32.8795)
  line L285 (-385.3472, -32.8795) -> (-376.1022, -38.2183)
  line L286 (-385.3472, -22.2099) -> (-375.9019, -16.7555)
  line L287 (-375.9019, -16.7555) -> (-366.7571, -22.0324)
  line L288 (-375.9019, -6.1055) -> (-375.9019, -16.7555)
  point P0 (-759.785, 2)
  dimension "d3" = 0
properties part number "X-box-coverplate-2mm" material "Aluminum 6061"
